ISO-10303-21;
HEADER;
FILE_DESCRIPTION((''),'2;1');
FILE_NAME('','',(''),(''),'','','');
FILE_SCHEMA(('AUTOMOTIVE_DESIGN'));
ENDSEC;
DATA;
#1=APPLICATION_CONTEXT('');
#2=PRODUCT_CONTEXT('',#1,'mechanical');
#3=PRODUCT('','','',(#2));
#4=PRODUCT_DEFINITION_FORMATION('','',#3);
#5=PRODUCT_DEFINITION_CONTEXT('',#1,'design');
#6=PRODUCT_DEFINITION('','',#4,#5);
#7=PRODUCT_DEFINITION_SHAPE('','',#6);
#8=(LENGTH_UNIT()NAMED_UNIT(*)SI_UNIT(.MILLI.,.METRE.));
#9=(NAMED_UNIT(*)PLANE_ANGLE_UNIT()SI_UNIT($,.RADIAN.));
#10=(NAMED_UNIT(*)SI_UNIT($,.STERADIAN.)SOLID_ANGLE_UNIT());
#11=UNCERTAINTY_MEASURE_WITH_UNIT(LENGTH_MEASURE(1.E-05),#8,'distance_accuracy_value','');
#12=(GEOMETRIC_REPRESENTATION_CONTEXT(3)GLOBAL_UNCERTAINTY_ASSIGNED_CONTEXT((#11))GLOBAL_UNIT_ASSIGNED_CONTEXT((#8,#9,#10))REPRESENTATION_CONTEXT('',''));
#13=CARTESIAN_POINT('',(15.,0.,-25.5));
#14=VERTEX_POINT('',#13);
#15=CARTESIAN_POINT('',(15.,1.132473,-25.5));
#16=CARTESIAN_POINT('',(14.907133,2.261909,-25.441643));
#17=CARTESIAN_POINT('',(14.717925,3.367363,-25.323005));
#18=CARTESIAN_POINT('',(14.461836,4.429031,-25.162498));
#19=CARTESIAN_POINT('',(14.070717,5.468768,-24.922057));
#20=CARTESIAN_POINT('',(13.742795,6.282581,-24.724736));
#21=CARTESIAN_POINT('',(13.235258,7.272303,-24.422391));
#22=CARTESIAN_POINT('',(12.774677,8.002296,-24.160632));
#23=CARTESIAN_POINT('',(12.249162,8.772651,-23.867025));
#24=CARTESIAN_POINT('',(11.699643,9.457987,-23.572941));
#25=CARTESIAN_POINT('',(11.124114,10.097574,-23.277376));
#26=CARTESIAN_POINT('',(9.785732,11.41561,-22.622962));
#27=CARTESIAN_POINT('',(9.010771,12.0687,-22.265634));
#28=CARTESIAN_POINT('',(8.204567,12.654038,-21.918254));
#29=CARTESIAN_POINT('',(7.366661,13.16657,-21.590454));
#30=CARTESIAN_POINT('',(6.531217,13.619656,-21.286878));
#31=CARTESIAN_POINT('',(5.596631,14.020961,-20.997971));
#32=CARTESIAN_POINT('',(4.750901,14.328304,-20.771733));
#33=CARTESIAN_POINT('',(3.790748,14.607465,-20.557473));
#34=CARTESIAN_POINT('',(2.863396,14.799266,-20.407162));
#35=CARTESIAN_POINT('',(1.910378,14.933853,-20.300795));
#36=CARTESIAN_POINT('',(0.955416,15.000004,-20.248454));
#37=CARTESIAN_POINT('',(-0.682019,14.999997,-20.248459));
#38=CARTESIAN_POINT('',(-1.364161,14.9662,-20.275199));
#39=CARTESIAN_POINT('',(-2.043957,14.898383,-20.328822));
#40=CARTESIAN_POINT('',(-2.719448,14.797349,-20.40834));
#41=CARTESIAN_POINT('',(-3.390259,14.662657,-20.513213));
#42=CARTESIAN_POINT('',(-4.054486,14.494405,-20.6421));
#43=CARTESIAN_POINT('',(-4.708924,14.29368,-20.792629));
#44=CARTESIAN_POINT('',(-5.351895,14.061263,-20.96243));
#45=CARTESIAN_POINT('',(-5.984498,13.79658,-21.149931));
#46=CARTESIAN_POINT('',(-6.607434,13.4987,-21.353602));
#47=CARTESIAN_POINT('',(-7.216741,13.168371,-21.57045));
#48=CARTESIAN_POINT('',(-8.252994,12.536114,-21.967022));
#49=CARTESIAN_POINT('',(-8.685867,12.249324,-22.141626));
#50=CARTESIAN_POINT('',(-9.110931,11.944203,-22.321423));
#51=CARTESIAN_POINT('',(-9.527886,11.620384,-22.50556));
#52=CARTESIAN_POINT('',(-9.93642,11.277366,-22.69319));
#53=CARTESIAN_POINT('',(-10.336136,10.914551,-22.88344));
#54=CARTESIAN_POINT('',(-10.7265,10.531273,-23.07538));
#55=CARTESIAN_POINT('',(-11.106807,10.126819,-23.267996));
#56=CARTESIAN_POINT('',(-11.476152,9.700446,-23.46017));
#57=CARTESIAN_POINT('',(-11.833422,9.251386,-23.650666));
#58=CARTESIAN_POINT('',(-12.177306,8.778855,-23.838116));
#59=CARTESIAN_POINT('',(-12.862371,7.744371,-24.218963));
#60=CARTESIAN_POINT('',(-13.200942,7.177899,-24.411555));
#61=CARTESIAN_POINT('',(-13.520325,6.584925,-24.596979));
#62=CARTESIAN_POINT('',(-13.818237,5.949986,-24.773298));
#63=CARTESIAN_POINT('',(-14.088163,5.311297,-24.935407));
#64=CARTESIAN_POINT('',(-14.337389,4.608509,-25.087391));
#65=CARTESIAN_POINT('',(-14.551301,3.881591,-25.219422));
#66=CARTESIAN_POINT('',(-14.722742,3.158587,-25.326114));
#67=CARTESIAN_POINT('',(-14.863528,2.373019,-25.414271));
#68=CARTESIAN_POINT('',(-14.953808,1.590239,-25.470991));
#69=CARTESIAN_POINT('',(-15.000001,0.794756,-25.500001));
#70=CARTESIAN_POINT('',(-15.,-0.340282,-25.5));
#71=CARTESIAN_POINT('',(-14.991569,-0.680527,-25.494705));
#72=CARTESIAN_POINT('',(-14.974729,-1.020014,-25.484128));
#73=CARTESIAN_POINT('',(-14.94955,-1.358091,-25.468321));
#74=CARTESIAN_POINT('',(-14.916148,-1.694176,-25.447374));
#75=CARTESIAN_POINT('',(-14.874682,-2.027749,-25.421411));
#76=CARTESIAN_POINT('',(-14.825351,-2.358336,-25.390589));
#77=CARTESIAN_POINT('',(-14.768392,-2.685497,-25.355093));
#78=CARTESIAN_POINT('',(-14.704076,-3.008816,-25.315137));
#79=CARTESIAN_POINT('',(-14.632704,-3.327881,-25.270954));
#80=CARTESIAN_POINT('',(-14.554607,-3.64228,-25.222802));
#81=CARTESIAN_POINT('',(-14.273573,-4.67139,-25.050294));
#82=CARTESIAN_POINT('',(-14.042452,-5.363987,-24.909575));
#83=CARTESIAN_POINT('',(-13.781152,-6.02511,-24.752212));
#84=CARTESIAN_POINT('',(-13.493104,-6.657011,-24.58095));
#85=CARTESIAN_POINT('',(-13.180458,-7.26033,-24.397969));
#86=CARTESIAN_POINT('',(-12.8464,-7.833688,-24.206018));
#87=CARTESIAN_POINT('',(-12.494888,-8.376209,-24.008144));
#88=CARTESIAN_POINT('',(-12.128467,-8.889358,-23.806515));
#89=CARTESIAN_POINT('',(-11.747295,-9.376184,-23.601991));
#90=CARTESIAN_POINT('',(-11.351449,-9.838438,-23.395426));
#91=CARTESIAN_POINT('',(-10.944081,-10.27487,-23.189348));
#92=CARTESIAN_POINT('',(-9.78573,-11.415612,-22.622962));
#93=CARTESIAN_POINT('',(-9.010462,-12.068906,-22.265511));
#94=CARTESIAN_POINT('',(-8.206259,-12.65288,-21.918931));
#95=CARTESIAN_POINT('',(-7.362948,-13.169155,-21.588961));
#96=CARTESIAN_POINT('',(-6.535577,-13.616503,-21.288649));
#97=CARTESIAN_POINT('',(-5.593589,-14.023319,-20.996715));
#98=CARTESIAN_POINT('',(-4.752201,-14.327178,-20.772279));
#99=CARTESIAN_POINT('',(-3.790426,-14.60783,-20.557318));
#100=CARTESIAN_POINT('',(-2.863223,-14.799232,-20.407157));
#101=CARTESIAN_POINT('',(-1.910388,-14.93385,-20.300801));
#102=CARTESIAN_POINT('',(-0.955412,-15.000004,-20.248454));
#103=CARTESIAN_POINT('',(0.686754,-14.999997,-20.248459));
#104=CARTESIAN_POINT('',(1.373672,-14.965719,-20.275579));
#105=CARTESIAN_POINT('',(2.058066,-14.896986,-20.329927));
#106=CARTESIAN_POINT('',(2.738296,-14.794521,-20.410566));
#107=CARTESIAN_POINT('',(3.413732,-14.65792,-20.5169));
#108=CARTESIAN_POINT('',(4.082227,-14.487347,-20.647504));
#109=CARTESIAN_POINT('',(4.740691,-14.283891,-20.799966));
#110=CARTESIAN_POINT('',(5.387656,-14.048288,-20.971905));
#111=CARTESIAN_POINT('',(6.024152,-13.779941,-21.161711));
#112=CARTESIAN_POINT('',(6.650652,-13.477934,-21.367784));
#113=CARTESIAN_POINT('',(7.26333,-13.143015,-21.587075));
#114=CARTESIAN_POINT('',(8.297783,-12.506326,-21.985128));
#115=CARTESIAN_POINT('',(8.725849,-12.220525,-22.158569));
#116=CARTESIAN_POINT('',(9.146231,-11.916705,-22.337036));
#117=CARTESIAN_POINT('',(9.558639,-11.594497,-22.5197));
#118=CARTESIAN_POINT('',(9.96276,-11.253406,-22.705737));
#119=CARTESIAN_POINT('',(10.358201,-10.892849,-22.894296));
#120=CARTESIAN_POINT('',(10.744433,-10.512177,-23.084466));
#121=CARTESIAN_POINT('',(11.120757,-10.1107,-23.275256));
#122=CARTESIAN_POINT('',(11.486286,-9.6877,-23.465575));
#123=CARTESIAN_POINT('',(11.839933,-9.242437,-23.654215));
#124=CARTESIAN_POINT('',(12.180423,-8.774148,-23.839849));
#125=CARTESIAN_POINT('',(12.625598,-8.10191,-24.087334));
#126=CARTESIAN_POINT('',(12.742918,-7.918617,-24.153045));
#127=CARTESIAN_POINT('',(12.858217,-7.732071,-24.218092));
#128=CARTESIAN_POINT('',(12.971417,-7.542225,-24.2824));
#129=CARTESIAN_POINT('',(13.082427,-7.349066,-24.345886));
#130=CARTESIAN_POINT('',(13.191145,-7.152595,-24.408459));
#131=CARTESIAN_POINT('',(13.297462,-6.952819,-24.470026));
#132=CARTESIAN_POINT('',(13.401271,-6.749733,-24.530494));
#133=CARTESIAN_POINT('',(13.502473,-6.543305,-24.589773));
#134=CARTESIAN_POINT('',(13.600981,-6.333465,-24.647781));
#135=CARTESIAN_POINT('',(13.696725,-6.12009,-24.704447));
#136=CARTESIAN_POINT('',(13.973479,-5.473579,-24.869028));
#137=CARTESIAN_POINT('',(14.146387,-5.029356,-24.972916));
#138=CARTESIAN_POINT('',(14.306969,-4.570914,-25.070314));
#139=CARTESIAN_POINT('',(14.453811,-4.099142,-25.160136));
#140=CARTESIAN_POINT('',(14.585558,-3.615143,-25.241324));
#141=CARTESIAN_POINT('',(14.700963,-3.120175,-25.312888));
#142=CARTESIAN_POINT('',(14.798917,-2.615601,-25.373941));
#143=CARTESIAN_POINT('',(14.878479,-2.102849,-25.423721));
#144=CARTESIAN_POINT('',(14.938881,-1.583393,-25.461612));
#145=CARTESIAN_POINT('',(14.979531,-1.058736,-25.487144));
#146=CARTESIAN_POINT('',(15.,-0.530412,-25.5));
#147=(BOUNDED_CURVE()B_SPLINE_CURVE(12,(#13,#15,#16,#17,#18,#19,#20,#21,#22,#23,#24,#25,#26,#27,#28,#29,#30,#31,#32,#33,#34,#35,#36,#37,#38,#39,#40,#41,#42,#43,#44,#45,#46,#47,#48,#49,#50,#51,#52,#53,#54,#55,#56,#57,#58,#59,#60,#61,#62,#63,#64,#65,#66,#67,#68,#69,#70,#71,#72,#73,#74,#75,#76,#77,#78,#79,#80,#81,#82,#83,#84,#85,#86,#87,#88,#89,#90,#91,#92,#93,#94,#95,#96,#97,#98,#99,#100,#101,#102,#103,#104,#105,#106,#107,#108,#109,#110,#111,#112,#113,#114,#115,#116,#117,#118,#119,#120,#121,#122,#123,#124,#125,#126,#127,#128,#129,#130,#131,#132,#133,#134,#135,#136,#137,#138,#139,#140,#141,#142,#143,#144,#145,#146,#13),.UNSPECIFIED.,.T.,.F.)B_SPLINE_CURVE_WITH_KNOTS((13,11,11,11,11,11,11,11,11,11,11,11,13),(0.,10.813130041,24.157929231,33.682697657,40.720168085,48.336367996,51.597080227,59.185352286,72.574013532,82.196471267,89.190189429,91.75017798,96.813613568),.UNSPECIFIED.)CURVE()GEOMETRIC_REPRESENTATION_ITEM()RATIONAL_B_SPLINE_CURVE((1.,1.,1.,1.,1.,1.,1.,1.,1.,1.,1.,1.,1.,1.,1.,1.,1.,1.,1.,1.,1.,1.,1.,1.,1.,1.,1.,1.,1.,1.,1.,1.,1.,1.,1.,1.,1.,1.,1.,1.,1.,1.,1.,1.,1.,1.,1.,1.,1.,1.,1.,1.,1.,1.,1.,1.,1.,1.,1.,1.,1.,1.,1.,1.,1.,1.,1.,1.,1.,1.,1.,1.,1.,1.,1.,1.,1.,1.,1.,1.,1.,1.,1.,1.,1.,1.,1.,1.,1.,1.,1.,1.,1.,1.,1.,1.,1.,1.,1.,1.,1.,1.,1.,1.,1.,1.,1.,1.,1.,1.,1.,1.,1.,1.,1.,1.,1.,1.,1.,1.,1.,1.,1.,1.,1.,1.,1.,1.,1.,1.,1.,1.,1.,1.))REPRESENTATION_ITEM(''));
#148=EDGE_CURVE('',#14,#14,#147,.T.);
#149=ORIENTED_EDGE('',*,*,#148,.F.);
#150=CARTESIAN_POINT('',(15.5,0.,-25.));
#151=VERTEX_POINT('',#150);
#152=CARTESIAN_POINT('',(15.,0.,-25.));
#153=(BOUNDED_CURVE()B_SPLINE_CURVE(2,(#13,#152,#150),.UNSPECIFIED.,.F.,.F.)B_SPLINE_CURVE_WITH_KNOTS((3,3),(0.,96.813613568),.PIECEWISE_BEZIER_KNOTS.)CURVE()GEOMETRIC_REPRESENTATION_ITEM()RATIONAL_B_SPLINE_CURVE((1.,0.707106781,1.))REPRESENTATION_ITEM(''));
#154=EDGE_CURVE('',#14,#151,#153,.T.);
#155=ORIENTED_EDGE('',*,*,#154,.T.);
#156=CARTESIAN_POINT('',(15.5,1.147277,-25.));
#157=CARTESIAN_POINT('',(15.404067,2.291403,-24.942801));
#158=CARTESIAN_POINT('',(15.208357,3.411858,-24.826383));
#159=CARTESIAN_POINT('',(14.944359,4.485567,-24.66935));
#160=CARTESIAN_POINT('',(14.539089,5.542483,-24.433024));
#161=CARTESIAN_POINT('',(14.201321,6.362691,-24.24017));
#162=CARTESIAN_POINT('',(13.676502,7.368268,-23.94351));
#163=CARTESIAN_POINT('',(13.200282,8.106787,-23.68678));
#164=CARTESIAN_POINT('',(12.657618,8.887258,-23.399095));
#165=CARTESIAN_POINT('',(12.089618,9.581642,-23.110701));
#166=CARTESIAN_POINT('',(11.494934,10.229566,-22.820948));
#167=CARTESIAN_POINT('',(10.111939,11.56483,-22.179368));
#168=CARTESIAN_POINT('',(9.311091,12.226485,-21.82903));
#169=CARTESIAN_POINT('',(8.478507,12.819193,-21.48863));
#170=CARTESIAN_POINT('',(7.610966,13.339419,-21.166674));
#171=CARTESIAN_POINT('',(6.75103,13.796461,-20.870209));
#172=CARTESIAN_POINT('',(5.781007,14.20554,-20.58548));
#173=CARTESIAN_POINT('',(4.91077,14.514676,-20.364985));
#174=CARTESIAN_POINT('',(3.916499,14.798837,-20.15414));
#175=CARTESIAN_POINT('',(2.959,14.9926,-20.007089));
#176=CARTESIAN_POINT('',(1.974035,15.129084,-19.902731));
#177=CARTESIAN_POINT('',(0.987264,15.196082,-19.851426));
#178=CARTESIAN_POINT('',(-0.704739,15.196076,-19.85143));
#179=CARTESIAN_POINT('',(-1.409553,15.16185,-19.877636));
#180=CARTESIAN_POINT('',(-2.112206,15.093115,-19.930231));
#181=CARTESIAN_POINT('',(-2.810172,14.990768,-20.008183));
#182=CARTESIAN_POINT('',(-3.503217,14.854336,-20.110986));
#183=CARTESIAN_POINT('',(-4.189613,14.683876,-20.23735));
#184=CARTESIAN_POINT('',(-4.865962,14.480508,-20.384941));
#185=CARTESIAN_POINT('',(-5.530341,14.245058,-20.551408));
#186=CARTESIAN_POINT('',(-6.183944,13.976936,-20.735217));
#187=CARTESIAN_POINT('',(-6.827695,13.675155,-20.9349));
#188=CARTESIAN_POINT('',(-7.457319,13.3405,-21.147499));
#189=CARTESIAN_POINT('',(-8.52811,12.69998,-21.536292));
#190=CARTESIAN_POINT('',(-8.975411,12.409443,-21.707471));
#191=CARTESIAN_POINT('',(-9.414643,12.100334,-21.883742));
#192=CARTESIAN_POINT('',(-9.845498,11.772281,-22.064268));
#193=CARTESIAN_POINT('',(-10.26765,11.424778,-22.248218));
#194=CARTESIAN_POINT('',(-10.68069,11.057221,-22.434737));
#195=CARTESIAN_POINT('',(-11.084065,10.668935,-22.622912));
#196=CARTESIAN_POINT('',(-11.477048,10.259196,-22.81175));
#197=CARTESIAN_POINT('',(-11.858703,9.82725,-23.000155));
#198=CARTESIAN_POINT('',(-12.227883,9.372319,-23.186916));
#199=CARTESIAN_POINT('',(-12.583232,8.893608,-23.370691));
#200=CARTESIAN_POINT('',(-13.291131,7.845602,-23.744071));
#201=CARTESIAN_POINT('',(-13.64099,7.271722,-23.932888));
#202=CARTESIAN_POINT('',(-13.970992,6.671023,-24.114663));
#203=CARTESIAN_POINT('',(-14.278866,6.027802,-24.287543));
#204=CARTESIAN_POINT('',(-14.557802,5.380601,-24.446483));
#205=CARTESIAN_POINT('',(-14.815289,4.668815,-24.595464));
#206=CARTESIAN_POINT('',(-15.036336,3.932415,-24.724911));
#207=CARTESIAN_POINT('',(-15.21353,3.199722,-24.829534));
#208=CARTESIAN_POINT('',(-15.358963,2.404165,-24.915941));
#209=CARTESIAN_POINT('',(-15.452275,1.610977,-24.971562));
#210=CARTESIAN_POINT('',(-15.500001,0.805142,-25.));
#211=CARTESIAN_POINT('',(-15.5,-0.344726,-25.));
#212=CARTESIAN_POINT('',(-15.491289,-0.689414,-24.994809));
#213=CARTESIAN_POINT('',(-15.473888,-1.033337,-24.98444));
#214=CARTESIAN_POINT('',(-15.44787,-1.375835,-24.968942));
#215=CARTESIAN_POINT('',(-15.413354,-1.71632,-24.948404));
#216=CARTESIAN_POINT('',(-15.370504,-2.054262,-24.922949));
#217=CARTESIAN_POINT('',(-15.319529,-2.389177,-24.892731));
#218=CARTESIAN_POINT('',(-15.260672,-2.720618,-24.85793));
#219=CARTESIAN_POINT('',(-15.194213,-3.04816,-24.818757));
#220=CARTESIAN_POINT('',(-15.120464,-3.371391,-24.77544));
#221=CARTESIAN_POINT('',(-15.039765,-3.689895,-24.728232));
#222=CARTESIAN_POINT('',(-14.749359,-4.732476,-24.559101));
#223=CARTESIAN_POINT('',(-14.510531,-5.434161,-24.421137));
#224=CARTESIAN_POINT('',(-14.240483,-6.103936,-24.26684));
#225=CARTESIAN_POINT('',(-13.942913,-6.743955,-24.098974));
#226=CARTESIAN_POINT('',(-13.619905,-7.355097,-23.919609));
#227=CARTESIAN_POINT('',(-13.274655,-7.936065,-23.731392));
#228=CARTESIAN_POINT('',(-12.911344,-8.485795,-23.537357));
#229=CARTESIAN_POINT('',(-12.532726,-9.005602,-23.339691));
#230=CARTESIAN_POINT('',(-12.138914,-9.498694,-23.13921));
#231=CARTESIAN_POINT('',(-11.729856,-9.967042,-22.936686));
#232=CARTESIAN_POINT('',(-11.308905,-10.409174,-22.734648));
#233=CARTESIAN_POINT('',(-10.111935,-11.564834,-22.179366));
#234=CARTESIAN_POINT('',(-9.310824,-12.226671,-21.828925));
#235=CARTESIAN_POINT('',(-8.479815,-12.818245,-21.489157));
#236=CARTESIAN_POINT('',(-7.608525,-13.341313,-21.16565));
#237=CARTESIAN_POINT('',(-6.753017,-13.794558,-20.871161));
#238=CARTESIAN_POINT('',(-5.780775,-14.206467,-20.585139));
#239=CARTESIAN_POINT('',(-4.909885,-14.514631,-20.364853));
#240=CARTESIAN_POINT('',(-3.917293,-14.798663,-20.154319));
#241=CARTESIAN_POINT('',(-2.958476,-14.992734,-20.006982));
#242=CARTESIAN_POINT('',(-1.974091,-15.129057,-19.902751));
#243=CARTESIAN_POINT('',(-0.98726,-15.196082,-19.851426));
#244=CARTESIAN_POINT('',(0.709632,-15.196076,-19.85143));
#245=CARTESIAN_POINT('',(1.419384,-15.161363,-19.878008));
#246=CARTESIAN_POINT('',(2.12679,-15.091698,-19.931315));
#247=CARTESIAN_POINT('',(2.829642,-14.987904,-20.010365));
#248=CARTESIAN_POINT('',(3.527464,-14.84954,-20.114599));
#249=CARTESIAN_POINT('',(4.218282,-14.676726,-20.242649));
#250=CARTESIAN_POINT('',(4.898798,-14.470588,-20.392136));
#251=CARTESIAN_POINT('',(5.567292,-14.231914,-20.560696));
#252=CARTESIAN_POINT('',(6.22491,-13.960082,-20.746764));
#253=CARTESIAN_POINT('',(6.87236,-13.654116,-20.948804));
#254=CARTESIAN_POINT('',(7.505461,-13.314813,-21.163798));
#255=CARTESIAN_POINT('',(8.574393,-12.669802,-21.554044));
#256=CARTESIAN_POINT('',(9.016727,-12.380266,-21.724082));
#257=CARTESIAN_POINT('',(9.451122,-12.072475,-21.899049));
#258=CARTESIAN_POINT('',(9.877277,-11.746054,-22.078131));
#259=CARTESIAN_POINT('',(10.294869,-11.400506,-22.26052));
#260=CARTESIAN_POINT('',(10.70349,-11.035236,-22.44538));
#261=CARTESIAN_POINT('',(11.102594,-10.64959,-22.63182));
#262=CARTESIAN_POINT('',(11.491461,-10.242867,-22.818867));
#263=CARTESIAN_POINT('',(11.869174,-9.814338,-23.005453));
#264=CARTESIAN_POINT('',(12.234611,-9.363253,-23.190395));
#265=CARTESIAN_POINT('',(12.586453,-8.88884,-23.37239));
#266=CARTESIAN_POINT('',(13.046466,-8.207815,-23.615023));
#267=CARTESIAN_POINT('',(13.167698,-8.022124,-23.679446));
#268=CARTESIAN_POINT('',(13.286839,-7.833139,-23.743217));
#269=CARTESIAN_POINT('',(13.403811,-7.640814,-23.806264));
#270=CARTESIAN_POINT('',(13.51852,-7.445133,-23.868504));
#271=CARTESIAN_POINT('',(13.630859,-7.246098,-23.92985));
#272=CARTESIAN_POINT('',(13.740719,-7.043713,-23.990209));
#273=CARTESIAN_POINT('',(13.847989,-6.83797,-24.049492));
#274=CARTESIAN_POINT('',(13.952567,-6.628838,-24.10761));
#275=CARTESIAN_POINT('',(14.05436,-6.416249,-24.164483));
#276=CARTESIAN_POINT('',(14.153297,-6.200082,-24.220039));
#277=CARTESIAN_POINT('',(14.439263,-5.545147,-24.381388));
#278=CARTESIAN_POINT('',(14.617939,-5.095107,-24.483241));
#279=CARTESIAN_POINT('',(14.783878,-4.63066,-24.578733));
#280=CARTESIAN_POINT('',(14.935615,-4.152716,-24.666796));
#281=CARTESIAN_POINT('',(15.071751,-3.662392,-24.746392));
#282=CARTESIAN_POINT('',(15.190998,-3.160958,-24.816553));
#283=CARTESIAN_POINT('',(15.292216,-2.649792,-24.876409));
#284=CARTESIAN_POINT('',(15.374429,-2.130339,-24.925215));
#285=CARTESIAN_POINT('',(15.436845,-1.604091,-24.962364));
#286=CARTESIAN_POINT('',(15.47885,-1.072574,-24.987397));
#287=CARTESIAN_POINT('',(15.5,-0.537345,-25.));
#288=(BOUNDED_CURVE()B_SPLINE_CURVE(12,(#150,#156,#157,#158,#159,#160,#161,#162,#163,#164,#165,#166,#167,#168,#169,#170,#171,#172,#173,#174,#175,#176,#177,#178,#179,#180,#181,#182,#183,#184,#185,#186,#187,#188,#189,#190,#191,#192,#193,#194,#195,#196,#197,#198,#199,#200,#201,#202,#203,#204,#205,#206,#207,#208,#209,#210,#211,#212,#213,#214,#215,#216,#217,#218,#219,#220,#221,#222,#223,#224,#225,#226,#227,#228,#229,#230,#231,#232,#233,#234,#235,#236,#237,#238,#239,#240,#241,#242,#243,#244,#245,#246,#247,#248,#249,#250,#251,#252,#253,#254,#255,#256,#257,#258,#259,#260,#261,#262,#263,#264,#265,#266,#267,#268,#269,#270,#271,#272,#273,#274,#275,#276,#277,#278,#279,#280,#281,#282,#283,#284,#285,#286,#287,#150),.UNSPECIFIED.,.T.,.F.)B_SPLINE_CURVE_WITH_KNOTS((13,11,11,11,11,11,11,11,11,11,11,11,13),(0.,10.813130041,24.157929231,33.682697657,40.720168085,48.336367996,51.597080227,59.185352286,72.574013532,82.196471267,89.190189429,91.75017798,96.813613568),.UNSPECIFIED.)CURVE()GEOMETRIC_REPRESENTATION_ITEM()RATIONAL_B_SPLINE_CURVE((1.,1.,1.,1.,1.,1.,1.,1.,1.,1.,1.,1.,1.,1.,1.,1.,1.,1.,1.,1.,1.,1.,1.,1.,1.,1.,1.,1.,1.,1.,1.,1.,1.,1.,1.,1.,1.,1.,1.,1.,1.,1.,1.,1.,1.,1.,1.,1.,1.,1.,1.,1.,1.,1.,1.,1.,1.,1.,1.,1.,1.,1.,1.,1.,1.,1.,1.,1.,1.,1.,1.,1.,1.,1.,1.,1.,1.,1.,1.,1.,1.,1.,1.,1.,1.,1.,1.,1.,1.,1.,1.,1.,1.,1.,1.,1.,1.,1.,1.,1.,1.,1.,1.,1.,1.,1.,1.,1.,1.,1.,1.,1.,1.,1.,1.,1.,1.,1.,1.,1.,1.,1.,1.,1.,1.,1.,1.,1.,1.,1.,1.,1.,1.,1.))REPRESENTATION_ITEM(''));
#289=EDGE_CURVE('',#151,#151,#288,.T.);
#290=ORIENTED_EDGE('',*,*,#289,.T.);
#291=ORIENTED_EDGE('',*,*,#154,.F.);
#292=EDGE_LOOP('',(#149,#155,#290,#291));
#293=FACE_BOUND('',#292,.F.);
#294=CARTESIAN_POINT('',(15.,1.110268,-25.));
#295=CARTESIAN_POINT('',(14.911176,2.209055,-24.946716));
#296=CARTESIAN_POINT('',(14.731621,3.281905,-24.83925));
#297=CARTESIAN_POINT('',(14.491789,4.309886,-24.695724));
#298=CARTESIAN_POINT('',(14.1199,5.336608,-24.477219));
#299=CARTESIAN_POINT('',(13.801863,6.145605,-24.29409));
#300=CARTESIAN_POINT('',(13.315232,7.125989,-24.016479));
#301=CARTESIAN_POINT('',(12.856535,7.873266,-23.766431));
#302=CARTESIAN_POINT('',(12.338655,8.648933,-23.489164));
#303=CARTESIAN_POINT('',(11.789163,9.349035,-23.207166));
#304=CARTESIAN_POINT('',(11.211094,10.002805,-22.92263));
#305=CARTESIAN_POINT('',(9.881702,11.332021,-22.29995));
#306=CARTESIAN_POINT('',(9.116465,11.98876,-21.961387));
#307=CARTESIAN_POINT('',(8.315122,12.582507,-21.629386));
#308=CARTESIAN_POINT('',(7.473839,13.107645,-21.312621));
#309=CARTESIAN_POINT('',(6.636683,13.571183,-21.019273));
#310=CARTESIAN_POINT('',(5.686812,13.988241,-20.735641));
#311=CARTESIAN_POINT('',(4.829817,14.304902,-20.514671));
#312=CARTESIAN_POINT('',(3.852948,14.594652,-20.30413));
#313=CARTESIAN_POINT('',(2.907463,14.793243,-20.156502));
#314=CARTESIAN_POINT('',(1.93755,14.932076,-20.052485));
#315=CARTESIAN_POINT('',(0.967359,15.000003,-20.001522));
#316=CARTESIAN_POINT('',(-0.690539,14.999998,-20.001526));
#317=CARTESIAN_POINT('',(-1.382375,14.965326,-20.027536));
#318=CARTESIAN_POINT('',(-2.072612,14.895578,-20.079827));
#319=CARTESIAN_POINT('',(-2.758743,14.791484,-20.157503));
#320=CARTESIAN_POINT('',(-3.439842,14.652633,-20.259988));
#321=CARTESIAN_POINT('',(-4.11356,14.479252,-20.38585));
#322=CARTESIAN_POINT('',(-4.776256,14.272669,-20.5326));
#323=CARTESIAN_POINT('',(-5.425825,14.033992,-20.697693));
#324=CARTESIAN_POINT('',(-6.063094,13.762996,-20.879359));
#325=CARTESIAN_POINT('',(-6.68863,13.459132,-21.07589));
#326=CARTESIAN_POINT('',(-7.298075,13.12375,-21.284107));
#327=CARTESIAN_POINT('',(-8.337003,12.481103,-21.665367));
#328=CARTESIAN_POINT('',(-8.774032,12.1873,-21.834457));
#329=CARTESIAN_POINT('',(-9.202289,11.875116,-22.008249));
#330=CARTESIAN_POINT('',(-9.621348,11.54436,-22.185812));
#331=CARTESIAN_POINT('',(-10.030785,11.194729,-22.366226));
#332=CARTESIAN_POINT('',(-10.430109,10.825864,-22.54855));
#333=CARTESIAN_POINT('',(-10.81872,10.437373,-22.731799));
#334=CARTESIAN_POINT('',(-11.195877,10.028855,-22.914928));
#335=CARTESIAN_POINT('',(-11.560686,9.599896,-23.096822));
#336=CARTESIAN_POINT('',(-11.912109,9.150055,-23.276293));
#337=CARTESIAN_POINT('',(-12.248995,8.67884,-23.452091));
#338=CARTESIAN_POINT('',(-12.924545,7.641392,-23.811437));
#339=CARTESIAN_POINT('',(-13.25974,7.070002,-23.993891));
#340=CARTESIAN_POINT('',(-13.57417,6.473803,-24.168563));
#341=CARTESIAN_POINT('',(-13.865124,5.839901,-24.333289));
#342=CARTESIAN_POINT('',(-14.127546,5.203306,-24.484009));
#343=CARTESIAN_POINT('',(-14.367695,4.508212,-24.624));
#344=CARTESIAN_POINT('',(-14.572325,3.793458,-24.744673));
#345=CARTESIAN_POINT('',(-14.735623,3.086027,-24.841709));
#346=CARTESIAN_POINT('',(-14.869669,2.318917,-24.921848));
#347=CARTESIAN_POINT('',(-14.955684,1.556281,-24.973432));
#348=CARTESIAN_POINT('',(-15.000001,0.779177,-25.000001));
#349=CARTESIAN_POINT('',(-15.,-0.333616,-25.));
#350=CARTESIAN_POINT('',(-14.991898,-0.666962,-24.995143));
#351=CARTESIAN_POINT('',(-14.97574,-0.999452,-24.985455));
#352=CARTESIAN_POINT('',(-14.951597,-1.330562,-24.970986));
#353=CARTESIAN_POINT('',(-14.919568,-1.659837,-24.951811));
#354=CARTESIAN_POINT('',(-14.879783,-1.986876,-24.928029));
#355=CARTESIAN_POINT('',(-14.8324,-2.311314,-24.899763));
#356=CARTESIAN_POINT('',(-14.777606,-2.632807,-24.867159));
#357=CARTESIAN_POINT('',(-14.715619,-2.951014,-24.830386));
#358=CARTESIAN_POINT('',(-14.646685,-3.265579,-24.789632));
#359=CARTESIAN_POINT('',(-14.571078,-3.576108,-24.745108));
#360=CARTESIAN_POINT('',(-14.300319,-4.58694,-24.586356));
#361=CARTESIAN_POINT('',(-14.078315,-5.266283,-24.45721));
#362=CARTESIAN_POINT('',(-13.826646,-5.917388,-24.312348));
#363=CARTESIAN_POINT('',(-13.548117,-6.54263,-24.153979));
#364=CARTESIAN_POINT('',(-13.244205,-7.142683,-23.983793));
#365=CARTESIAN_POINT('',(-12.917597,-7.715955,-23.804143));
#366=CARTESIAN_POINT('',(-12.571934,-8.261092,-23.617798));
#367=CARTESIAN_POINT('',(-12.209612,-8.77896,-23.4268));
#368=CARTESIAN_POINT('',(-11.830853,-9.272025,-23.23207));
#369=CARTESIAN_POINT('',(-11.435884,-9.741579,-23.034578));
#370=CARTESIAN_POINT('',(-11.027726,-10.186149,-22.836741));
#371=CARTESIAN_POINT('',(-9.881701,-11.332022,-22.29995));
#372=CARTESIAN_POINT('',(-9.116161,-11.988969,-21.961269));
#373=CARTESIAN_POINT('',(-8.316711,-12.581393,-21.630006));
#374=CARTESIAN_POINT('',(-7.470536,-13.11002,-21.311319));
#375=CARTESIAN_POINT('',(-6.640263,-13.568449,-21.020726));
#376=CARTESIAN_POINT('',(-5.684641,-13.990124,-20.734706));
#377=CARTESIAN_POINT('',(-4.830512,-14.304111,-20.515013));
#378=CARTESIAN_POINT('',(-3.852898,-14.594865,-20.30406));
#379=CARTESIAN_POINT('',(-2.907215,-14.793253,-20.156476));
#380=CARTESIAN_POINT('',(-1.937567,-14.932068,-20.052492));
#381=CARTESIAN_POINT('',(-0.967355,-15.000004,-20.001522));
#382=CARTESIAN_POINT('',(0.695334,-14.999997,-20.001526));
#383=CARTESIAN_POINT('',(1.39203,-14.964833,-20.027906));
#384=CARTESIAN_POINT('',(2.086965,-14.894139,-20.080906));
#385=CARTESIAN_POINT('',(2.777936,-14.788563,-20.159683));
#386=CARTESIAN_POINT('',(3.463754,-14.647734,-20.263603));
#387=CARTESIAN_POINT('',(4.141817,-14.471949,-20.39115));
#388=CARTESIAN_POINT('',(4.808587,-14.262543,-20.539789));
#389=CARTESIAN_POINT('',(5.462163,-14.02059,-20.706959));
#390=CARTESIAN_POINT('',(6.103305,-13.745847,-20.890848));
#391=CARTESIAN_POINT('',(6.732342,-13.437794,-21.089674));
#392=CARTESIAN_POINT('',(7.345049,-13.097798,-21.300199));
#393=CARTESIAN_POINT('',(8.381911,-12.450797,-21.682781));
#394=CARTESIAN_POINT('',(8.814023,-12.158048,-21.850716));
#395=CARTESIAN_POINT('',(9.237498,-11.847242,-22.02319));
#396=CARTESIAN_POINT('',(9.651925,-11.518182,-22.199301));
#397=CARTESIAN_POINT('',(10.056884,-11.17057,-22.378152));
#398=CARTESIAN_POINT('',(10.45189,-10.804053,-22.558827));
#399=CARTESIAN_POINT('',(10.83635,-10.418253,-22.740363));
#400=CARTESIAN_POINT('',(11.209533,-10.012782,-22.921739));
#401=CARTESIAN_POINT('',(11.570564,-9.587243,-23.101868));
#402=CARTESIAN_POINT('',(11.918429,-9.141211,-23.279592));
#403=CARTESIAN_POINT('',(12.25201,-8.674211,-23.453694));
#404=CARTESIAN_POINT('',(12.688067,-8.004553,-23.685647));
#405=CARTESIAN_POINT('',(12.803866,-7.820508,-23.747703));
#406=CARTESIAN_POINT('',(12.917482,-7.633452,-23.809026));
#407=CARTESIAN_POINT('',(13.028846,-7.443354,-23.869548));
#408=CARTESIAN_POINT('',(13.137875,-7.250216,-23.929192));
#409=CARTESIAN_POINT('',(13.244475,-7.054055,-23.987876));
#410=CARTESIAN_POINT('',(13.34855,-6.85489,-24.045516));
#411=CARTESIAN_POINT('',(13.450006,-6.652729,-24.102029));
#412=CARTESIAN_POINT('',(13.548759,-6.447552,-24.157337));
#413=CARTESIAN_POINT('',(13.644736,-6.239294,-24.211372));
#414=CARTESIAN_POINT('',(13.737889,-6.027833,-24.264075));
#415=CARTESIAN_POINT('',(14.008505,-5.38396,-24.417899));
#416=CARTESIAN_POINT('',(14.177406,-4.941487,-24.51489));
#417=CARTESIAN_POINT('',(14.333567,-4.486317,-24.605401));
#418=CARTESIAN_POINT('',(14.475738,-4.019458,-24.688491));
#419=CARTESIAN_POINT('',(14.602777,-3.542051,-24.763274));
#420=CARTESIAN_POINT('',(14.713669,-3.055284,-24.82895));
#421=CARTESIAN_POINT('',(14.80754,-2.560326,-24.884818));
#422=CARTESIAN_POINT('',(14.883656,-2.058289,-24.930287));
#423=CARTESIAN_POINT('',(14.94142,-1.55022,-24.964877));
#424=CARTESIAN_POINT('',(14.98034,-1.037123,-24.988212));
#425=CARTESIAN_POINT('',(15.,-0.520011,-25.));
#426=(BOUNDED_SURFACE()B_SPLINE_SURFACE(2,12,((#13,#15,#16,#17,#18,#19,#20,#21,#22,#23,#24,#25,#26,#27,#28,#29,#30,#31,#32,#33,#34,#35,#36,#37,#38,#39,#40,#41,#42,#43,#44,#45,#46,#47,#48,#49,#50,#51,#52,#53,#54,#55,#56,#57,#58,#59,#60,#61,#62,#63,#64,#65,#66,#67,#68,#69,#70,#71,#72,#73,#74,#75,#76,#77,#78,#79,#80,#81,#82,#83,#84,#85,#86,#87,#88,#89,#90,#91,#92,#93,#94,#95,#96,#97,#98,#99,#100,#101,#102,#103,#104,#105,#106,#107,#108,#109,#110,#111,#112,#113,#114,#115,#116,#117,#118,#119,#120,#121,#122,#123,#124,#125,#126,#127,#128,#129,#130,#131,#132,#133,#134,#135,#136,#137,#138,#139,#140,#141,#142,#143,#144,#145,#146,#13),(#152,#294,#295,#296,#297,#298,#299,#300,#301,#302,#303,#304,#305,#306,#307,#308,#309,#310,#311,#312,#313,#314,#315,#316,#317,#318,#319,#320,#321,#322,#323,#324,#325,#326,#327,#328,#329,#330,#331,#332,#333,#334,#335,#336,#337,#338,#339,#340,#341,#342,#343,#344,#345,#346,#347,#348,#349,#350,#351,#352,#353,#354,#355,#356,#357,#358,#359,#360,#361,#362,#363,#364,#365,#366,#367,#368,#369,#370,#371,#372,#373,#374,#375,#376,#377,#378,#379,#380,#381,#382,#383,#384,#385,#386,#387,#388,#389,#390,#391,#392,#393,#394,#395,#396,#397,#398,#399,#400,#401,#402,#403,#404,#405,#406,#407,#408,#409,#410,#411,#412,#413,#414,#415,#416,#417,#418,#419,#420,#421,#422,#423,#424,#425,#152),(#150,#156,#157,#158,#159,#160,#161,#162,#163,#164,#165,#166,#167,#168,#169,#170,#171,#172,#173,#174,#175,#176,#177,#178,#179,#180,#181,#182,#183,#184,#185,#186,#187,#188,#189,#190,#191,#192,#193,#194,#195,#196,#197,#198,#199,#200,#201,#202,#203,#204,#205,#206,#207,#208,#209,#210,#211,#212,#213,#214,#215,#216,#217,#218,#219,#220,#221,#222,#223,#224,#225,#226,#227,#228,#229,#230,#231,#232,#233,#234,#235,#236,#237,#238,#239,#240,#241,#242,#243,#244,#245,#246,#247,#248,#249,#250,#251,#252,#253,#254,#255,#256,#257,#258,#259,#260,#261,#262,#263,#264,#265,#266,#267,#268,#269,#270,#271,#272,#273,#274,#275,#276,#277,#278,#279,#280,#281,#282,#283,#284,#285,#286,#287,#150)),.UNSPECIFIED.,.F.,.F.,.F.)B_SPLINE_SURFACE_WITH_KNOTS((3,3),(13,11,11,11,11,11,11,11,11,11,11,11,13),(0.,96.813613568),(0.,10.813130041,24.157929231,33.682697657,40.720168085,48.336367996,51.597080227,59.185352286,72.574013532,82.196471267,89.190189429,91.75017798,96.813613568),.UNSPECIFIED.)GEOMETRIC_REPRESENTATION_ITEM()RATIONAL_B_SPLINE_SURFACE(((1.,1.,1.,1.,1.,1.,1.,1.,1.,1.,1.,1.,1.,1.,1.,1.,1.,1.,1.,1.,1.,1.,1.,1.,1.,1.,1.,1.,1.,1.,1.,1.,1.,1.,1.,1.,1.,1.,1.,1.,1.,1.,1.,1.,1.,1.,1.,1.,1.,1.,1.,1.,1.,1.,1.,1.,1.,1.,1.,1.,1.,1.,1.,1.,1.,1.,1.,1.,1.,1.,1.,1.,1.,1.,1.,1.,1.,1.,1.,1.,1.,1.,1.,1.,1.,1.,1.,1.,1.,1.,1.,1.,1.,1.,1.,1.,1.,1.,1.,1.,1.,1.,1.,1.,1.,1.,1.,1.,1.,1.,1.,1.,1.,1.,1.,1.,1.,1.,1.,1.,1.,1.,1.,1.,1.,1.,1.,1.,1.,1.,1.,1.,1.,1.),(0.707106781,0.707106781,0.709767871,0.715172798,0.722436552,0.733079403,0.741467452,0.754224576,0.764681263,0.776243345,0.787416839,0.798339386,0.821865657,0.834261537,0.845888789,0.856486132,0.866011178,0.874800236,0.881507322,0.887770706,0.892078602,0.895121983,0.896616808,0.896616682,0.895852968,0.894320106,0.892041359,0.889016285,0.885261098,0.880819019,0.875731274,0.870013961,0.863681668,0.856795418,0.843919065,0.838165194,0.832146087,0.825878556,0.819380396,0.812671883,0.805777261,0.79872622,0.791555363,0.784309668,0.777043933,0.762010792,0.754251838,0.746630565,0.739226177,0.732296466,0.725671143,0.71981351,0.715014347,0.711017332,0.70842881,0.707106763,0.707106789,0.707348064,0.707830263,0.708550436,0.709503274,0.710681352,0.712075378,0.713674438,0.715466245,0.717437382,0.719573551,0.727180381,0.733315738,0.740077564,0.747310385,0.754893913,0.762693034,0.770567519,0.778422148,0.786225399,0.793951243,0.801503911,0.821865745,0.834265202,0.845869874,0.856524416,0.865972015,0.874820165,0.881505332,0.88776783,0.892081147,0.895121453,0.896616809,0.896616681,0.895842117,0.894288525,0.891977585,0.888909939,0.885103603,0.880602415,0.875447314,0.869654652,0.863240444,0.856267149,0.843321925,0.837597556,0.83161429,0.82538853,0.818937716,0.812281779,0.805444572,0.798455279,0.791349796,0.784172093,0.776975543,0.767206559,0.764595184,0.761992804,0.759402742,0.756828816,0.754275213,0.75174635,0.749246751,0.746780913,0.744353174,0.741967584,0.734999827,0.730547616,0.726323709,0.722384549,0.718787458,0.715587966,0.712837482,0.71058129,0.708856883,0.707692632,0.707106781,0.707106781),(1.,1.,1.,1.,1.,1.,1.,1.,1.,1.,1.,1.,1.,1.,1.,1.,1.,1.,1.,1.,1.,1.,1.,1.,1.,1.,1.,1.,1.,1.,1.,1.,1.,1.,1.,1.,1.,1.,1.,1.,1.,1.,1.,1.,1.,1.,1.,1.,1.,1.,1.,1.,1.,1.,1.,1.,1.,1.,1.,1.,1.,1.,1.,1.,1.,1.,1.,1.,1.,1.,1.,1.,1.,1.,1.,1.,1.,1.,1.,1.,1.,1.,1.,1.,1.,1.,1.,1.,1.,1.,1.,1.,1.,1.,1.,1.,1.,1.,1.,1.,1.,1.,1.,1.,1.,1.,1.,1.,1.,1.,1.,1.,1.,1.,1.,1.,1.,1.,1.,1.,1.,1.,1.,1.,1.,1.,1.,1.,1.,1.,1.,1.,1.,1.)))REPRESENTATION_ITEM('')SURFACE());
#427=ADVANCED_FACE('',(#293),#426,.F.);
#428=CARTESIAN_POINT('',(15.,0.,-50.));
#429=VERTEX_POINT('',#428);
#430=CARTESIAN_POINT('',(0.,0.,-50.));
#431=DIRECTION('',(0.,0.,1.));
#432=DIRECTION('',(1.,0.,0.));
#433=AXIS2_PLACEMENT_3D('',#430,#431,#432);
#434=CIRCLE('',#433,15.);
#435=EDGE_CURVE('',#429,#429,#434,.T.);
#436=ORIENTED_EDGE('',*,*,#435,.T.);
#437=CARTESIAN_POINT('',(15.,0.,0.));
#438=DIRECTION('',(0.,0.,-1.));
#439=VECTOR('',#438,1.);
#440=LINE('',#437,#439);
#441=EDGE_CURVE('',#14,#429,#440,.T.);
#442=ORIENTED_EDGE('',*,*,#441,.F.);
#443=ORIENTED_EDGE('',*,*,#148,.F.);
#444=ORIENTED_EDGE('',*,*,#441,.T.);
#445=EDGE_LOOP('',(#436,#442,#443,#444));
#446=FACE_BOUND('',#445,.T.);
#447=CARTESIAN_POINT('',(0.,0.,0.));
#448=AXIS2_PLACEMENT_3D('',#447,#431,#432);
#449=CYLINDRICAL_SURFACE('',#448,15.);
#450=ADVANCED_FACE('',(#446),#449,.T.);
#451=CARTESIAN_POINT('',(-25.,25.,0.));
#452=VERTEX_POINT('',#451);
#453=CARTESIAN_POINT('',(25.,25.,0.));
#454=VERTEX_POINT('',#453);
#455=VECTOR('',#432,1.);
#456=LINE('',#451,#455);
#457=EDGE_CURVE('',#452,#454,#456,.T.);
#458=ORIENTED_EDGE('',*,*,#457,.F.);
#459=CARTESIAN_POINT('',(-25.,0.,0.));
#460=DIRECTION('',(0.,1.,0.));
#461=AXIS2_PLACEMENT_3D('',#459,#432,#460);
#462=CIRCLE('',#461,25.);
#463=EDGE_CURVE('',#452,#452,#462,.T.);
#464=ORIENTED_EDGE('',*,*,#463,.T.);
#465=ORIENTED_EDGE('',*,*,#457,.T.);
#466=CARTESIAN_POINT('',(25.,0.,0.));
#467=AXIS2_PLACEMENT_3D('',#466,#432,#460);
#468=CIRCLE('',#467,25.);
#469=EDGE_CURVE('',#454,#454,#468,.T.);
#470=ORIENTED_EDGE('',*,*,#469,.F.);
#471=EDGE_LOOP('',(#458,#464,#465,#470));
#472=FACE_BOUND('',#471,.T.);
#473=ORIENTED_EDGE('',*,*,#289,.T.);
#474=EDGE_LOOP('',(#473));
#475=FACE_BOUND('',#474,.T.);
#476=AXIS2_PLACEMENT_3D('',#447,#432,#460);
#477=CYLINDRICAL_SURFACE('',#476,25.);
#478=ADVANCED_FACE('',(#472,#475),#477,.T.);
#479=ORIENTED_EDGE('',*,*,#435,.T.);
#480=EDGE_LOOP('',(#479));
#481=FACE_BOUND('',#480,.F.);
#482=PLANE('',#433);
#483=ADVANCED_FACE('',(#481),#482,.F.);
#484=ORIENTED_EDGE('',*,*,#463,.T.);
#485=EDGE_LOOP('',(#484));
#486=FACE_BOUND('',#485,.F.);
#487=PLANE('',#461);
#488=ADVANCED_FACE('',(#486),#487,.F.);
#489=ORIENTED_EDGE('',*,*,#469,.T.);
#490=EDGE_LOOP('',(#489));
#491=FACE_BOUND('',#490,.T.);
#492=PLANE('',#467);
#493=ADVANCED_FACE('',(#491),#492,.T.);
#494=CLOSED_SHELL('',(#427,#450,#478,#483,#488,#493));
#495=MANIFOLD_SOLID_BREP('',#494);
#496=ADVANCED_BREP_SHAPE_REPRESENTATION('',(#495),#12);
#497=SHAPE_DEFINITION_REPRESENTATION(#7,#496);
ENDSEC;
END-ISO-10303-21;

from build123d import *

# Parameters (mm, degrees)
F0_R     = 25
F1_DEPTH = 25
F2_R     = 15
F3_DEPTH = 50
F4_R     = 0.5


with BuildPart() as f1:
    # F0 (on Right) → F1 (new body, symmetric)
    with BuildSketch(Plane.YZ):
        Circle(F0_R)
    extrude(amount=F1_DEPTH, both=True)

    # F2 (on Top) → F3 (join)
    with BuildSketch(Plane.XY):
        Circle(F2_R)
    extrude(amount=-F3_DEPTH)

    # F4
    f4_edges = [f1.edges().sort_by_distance(p)[0] for p in [
        (-15, 0, -25),
    ]]
    fillet(f4_edges, radius=F4_R)


solid = f1.part
